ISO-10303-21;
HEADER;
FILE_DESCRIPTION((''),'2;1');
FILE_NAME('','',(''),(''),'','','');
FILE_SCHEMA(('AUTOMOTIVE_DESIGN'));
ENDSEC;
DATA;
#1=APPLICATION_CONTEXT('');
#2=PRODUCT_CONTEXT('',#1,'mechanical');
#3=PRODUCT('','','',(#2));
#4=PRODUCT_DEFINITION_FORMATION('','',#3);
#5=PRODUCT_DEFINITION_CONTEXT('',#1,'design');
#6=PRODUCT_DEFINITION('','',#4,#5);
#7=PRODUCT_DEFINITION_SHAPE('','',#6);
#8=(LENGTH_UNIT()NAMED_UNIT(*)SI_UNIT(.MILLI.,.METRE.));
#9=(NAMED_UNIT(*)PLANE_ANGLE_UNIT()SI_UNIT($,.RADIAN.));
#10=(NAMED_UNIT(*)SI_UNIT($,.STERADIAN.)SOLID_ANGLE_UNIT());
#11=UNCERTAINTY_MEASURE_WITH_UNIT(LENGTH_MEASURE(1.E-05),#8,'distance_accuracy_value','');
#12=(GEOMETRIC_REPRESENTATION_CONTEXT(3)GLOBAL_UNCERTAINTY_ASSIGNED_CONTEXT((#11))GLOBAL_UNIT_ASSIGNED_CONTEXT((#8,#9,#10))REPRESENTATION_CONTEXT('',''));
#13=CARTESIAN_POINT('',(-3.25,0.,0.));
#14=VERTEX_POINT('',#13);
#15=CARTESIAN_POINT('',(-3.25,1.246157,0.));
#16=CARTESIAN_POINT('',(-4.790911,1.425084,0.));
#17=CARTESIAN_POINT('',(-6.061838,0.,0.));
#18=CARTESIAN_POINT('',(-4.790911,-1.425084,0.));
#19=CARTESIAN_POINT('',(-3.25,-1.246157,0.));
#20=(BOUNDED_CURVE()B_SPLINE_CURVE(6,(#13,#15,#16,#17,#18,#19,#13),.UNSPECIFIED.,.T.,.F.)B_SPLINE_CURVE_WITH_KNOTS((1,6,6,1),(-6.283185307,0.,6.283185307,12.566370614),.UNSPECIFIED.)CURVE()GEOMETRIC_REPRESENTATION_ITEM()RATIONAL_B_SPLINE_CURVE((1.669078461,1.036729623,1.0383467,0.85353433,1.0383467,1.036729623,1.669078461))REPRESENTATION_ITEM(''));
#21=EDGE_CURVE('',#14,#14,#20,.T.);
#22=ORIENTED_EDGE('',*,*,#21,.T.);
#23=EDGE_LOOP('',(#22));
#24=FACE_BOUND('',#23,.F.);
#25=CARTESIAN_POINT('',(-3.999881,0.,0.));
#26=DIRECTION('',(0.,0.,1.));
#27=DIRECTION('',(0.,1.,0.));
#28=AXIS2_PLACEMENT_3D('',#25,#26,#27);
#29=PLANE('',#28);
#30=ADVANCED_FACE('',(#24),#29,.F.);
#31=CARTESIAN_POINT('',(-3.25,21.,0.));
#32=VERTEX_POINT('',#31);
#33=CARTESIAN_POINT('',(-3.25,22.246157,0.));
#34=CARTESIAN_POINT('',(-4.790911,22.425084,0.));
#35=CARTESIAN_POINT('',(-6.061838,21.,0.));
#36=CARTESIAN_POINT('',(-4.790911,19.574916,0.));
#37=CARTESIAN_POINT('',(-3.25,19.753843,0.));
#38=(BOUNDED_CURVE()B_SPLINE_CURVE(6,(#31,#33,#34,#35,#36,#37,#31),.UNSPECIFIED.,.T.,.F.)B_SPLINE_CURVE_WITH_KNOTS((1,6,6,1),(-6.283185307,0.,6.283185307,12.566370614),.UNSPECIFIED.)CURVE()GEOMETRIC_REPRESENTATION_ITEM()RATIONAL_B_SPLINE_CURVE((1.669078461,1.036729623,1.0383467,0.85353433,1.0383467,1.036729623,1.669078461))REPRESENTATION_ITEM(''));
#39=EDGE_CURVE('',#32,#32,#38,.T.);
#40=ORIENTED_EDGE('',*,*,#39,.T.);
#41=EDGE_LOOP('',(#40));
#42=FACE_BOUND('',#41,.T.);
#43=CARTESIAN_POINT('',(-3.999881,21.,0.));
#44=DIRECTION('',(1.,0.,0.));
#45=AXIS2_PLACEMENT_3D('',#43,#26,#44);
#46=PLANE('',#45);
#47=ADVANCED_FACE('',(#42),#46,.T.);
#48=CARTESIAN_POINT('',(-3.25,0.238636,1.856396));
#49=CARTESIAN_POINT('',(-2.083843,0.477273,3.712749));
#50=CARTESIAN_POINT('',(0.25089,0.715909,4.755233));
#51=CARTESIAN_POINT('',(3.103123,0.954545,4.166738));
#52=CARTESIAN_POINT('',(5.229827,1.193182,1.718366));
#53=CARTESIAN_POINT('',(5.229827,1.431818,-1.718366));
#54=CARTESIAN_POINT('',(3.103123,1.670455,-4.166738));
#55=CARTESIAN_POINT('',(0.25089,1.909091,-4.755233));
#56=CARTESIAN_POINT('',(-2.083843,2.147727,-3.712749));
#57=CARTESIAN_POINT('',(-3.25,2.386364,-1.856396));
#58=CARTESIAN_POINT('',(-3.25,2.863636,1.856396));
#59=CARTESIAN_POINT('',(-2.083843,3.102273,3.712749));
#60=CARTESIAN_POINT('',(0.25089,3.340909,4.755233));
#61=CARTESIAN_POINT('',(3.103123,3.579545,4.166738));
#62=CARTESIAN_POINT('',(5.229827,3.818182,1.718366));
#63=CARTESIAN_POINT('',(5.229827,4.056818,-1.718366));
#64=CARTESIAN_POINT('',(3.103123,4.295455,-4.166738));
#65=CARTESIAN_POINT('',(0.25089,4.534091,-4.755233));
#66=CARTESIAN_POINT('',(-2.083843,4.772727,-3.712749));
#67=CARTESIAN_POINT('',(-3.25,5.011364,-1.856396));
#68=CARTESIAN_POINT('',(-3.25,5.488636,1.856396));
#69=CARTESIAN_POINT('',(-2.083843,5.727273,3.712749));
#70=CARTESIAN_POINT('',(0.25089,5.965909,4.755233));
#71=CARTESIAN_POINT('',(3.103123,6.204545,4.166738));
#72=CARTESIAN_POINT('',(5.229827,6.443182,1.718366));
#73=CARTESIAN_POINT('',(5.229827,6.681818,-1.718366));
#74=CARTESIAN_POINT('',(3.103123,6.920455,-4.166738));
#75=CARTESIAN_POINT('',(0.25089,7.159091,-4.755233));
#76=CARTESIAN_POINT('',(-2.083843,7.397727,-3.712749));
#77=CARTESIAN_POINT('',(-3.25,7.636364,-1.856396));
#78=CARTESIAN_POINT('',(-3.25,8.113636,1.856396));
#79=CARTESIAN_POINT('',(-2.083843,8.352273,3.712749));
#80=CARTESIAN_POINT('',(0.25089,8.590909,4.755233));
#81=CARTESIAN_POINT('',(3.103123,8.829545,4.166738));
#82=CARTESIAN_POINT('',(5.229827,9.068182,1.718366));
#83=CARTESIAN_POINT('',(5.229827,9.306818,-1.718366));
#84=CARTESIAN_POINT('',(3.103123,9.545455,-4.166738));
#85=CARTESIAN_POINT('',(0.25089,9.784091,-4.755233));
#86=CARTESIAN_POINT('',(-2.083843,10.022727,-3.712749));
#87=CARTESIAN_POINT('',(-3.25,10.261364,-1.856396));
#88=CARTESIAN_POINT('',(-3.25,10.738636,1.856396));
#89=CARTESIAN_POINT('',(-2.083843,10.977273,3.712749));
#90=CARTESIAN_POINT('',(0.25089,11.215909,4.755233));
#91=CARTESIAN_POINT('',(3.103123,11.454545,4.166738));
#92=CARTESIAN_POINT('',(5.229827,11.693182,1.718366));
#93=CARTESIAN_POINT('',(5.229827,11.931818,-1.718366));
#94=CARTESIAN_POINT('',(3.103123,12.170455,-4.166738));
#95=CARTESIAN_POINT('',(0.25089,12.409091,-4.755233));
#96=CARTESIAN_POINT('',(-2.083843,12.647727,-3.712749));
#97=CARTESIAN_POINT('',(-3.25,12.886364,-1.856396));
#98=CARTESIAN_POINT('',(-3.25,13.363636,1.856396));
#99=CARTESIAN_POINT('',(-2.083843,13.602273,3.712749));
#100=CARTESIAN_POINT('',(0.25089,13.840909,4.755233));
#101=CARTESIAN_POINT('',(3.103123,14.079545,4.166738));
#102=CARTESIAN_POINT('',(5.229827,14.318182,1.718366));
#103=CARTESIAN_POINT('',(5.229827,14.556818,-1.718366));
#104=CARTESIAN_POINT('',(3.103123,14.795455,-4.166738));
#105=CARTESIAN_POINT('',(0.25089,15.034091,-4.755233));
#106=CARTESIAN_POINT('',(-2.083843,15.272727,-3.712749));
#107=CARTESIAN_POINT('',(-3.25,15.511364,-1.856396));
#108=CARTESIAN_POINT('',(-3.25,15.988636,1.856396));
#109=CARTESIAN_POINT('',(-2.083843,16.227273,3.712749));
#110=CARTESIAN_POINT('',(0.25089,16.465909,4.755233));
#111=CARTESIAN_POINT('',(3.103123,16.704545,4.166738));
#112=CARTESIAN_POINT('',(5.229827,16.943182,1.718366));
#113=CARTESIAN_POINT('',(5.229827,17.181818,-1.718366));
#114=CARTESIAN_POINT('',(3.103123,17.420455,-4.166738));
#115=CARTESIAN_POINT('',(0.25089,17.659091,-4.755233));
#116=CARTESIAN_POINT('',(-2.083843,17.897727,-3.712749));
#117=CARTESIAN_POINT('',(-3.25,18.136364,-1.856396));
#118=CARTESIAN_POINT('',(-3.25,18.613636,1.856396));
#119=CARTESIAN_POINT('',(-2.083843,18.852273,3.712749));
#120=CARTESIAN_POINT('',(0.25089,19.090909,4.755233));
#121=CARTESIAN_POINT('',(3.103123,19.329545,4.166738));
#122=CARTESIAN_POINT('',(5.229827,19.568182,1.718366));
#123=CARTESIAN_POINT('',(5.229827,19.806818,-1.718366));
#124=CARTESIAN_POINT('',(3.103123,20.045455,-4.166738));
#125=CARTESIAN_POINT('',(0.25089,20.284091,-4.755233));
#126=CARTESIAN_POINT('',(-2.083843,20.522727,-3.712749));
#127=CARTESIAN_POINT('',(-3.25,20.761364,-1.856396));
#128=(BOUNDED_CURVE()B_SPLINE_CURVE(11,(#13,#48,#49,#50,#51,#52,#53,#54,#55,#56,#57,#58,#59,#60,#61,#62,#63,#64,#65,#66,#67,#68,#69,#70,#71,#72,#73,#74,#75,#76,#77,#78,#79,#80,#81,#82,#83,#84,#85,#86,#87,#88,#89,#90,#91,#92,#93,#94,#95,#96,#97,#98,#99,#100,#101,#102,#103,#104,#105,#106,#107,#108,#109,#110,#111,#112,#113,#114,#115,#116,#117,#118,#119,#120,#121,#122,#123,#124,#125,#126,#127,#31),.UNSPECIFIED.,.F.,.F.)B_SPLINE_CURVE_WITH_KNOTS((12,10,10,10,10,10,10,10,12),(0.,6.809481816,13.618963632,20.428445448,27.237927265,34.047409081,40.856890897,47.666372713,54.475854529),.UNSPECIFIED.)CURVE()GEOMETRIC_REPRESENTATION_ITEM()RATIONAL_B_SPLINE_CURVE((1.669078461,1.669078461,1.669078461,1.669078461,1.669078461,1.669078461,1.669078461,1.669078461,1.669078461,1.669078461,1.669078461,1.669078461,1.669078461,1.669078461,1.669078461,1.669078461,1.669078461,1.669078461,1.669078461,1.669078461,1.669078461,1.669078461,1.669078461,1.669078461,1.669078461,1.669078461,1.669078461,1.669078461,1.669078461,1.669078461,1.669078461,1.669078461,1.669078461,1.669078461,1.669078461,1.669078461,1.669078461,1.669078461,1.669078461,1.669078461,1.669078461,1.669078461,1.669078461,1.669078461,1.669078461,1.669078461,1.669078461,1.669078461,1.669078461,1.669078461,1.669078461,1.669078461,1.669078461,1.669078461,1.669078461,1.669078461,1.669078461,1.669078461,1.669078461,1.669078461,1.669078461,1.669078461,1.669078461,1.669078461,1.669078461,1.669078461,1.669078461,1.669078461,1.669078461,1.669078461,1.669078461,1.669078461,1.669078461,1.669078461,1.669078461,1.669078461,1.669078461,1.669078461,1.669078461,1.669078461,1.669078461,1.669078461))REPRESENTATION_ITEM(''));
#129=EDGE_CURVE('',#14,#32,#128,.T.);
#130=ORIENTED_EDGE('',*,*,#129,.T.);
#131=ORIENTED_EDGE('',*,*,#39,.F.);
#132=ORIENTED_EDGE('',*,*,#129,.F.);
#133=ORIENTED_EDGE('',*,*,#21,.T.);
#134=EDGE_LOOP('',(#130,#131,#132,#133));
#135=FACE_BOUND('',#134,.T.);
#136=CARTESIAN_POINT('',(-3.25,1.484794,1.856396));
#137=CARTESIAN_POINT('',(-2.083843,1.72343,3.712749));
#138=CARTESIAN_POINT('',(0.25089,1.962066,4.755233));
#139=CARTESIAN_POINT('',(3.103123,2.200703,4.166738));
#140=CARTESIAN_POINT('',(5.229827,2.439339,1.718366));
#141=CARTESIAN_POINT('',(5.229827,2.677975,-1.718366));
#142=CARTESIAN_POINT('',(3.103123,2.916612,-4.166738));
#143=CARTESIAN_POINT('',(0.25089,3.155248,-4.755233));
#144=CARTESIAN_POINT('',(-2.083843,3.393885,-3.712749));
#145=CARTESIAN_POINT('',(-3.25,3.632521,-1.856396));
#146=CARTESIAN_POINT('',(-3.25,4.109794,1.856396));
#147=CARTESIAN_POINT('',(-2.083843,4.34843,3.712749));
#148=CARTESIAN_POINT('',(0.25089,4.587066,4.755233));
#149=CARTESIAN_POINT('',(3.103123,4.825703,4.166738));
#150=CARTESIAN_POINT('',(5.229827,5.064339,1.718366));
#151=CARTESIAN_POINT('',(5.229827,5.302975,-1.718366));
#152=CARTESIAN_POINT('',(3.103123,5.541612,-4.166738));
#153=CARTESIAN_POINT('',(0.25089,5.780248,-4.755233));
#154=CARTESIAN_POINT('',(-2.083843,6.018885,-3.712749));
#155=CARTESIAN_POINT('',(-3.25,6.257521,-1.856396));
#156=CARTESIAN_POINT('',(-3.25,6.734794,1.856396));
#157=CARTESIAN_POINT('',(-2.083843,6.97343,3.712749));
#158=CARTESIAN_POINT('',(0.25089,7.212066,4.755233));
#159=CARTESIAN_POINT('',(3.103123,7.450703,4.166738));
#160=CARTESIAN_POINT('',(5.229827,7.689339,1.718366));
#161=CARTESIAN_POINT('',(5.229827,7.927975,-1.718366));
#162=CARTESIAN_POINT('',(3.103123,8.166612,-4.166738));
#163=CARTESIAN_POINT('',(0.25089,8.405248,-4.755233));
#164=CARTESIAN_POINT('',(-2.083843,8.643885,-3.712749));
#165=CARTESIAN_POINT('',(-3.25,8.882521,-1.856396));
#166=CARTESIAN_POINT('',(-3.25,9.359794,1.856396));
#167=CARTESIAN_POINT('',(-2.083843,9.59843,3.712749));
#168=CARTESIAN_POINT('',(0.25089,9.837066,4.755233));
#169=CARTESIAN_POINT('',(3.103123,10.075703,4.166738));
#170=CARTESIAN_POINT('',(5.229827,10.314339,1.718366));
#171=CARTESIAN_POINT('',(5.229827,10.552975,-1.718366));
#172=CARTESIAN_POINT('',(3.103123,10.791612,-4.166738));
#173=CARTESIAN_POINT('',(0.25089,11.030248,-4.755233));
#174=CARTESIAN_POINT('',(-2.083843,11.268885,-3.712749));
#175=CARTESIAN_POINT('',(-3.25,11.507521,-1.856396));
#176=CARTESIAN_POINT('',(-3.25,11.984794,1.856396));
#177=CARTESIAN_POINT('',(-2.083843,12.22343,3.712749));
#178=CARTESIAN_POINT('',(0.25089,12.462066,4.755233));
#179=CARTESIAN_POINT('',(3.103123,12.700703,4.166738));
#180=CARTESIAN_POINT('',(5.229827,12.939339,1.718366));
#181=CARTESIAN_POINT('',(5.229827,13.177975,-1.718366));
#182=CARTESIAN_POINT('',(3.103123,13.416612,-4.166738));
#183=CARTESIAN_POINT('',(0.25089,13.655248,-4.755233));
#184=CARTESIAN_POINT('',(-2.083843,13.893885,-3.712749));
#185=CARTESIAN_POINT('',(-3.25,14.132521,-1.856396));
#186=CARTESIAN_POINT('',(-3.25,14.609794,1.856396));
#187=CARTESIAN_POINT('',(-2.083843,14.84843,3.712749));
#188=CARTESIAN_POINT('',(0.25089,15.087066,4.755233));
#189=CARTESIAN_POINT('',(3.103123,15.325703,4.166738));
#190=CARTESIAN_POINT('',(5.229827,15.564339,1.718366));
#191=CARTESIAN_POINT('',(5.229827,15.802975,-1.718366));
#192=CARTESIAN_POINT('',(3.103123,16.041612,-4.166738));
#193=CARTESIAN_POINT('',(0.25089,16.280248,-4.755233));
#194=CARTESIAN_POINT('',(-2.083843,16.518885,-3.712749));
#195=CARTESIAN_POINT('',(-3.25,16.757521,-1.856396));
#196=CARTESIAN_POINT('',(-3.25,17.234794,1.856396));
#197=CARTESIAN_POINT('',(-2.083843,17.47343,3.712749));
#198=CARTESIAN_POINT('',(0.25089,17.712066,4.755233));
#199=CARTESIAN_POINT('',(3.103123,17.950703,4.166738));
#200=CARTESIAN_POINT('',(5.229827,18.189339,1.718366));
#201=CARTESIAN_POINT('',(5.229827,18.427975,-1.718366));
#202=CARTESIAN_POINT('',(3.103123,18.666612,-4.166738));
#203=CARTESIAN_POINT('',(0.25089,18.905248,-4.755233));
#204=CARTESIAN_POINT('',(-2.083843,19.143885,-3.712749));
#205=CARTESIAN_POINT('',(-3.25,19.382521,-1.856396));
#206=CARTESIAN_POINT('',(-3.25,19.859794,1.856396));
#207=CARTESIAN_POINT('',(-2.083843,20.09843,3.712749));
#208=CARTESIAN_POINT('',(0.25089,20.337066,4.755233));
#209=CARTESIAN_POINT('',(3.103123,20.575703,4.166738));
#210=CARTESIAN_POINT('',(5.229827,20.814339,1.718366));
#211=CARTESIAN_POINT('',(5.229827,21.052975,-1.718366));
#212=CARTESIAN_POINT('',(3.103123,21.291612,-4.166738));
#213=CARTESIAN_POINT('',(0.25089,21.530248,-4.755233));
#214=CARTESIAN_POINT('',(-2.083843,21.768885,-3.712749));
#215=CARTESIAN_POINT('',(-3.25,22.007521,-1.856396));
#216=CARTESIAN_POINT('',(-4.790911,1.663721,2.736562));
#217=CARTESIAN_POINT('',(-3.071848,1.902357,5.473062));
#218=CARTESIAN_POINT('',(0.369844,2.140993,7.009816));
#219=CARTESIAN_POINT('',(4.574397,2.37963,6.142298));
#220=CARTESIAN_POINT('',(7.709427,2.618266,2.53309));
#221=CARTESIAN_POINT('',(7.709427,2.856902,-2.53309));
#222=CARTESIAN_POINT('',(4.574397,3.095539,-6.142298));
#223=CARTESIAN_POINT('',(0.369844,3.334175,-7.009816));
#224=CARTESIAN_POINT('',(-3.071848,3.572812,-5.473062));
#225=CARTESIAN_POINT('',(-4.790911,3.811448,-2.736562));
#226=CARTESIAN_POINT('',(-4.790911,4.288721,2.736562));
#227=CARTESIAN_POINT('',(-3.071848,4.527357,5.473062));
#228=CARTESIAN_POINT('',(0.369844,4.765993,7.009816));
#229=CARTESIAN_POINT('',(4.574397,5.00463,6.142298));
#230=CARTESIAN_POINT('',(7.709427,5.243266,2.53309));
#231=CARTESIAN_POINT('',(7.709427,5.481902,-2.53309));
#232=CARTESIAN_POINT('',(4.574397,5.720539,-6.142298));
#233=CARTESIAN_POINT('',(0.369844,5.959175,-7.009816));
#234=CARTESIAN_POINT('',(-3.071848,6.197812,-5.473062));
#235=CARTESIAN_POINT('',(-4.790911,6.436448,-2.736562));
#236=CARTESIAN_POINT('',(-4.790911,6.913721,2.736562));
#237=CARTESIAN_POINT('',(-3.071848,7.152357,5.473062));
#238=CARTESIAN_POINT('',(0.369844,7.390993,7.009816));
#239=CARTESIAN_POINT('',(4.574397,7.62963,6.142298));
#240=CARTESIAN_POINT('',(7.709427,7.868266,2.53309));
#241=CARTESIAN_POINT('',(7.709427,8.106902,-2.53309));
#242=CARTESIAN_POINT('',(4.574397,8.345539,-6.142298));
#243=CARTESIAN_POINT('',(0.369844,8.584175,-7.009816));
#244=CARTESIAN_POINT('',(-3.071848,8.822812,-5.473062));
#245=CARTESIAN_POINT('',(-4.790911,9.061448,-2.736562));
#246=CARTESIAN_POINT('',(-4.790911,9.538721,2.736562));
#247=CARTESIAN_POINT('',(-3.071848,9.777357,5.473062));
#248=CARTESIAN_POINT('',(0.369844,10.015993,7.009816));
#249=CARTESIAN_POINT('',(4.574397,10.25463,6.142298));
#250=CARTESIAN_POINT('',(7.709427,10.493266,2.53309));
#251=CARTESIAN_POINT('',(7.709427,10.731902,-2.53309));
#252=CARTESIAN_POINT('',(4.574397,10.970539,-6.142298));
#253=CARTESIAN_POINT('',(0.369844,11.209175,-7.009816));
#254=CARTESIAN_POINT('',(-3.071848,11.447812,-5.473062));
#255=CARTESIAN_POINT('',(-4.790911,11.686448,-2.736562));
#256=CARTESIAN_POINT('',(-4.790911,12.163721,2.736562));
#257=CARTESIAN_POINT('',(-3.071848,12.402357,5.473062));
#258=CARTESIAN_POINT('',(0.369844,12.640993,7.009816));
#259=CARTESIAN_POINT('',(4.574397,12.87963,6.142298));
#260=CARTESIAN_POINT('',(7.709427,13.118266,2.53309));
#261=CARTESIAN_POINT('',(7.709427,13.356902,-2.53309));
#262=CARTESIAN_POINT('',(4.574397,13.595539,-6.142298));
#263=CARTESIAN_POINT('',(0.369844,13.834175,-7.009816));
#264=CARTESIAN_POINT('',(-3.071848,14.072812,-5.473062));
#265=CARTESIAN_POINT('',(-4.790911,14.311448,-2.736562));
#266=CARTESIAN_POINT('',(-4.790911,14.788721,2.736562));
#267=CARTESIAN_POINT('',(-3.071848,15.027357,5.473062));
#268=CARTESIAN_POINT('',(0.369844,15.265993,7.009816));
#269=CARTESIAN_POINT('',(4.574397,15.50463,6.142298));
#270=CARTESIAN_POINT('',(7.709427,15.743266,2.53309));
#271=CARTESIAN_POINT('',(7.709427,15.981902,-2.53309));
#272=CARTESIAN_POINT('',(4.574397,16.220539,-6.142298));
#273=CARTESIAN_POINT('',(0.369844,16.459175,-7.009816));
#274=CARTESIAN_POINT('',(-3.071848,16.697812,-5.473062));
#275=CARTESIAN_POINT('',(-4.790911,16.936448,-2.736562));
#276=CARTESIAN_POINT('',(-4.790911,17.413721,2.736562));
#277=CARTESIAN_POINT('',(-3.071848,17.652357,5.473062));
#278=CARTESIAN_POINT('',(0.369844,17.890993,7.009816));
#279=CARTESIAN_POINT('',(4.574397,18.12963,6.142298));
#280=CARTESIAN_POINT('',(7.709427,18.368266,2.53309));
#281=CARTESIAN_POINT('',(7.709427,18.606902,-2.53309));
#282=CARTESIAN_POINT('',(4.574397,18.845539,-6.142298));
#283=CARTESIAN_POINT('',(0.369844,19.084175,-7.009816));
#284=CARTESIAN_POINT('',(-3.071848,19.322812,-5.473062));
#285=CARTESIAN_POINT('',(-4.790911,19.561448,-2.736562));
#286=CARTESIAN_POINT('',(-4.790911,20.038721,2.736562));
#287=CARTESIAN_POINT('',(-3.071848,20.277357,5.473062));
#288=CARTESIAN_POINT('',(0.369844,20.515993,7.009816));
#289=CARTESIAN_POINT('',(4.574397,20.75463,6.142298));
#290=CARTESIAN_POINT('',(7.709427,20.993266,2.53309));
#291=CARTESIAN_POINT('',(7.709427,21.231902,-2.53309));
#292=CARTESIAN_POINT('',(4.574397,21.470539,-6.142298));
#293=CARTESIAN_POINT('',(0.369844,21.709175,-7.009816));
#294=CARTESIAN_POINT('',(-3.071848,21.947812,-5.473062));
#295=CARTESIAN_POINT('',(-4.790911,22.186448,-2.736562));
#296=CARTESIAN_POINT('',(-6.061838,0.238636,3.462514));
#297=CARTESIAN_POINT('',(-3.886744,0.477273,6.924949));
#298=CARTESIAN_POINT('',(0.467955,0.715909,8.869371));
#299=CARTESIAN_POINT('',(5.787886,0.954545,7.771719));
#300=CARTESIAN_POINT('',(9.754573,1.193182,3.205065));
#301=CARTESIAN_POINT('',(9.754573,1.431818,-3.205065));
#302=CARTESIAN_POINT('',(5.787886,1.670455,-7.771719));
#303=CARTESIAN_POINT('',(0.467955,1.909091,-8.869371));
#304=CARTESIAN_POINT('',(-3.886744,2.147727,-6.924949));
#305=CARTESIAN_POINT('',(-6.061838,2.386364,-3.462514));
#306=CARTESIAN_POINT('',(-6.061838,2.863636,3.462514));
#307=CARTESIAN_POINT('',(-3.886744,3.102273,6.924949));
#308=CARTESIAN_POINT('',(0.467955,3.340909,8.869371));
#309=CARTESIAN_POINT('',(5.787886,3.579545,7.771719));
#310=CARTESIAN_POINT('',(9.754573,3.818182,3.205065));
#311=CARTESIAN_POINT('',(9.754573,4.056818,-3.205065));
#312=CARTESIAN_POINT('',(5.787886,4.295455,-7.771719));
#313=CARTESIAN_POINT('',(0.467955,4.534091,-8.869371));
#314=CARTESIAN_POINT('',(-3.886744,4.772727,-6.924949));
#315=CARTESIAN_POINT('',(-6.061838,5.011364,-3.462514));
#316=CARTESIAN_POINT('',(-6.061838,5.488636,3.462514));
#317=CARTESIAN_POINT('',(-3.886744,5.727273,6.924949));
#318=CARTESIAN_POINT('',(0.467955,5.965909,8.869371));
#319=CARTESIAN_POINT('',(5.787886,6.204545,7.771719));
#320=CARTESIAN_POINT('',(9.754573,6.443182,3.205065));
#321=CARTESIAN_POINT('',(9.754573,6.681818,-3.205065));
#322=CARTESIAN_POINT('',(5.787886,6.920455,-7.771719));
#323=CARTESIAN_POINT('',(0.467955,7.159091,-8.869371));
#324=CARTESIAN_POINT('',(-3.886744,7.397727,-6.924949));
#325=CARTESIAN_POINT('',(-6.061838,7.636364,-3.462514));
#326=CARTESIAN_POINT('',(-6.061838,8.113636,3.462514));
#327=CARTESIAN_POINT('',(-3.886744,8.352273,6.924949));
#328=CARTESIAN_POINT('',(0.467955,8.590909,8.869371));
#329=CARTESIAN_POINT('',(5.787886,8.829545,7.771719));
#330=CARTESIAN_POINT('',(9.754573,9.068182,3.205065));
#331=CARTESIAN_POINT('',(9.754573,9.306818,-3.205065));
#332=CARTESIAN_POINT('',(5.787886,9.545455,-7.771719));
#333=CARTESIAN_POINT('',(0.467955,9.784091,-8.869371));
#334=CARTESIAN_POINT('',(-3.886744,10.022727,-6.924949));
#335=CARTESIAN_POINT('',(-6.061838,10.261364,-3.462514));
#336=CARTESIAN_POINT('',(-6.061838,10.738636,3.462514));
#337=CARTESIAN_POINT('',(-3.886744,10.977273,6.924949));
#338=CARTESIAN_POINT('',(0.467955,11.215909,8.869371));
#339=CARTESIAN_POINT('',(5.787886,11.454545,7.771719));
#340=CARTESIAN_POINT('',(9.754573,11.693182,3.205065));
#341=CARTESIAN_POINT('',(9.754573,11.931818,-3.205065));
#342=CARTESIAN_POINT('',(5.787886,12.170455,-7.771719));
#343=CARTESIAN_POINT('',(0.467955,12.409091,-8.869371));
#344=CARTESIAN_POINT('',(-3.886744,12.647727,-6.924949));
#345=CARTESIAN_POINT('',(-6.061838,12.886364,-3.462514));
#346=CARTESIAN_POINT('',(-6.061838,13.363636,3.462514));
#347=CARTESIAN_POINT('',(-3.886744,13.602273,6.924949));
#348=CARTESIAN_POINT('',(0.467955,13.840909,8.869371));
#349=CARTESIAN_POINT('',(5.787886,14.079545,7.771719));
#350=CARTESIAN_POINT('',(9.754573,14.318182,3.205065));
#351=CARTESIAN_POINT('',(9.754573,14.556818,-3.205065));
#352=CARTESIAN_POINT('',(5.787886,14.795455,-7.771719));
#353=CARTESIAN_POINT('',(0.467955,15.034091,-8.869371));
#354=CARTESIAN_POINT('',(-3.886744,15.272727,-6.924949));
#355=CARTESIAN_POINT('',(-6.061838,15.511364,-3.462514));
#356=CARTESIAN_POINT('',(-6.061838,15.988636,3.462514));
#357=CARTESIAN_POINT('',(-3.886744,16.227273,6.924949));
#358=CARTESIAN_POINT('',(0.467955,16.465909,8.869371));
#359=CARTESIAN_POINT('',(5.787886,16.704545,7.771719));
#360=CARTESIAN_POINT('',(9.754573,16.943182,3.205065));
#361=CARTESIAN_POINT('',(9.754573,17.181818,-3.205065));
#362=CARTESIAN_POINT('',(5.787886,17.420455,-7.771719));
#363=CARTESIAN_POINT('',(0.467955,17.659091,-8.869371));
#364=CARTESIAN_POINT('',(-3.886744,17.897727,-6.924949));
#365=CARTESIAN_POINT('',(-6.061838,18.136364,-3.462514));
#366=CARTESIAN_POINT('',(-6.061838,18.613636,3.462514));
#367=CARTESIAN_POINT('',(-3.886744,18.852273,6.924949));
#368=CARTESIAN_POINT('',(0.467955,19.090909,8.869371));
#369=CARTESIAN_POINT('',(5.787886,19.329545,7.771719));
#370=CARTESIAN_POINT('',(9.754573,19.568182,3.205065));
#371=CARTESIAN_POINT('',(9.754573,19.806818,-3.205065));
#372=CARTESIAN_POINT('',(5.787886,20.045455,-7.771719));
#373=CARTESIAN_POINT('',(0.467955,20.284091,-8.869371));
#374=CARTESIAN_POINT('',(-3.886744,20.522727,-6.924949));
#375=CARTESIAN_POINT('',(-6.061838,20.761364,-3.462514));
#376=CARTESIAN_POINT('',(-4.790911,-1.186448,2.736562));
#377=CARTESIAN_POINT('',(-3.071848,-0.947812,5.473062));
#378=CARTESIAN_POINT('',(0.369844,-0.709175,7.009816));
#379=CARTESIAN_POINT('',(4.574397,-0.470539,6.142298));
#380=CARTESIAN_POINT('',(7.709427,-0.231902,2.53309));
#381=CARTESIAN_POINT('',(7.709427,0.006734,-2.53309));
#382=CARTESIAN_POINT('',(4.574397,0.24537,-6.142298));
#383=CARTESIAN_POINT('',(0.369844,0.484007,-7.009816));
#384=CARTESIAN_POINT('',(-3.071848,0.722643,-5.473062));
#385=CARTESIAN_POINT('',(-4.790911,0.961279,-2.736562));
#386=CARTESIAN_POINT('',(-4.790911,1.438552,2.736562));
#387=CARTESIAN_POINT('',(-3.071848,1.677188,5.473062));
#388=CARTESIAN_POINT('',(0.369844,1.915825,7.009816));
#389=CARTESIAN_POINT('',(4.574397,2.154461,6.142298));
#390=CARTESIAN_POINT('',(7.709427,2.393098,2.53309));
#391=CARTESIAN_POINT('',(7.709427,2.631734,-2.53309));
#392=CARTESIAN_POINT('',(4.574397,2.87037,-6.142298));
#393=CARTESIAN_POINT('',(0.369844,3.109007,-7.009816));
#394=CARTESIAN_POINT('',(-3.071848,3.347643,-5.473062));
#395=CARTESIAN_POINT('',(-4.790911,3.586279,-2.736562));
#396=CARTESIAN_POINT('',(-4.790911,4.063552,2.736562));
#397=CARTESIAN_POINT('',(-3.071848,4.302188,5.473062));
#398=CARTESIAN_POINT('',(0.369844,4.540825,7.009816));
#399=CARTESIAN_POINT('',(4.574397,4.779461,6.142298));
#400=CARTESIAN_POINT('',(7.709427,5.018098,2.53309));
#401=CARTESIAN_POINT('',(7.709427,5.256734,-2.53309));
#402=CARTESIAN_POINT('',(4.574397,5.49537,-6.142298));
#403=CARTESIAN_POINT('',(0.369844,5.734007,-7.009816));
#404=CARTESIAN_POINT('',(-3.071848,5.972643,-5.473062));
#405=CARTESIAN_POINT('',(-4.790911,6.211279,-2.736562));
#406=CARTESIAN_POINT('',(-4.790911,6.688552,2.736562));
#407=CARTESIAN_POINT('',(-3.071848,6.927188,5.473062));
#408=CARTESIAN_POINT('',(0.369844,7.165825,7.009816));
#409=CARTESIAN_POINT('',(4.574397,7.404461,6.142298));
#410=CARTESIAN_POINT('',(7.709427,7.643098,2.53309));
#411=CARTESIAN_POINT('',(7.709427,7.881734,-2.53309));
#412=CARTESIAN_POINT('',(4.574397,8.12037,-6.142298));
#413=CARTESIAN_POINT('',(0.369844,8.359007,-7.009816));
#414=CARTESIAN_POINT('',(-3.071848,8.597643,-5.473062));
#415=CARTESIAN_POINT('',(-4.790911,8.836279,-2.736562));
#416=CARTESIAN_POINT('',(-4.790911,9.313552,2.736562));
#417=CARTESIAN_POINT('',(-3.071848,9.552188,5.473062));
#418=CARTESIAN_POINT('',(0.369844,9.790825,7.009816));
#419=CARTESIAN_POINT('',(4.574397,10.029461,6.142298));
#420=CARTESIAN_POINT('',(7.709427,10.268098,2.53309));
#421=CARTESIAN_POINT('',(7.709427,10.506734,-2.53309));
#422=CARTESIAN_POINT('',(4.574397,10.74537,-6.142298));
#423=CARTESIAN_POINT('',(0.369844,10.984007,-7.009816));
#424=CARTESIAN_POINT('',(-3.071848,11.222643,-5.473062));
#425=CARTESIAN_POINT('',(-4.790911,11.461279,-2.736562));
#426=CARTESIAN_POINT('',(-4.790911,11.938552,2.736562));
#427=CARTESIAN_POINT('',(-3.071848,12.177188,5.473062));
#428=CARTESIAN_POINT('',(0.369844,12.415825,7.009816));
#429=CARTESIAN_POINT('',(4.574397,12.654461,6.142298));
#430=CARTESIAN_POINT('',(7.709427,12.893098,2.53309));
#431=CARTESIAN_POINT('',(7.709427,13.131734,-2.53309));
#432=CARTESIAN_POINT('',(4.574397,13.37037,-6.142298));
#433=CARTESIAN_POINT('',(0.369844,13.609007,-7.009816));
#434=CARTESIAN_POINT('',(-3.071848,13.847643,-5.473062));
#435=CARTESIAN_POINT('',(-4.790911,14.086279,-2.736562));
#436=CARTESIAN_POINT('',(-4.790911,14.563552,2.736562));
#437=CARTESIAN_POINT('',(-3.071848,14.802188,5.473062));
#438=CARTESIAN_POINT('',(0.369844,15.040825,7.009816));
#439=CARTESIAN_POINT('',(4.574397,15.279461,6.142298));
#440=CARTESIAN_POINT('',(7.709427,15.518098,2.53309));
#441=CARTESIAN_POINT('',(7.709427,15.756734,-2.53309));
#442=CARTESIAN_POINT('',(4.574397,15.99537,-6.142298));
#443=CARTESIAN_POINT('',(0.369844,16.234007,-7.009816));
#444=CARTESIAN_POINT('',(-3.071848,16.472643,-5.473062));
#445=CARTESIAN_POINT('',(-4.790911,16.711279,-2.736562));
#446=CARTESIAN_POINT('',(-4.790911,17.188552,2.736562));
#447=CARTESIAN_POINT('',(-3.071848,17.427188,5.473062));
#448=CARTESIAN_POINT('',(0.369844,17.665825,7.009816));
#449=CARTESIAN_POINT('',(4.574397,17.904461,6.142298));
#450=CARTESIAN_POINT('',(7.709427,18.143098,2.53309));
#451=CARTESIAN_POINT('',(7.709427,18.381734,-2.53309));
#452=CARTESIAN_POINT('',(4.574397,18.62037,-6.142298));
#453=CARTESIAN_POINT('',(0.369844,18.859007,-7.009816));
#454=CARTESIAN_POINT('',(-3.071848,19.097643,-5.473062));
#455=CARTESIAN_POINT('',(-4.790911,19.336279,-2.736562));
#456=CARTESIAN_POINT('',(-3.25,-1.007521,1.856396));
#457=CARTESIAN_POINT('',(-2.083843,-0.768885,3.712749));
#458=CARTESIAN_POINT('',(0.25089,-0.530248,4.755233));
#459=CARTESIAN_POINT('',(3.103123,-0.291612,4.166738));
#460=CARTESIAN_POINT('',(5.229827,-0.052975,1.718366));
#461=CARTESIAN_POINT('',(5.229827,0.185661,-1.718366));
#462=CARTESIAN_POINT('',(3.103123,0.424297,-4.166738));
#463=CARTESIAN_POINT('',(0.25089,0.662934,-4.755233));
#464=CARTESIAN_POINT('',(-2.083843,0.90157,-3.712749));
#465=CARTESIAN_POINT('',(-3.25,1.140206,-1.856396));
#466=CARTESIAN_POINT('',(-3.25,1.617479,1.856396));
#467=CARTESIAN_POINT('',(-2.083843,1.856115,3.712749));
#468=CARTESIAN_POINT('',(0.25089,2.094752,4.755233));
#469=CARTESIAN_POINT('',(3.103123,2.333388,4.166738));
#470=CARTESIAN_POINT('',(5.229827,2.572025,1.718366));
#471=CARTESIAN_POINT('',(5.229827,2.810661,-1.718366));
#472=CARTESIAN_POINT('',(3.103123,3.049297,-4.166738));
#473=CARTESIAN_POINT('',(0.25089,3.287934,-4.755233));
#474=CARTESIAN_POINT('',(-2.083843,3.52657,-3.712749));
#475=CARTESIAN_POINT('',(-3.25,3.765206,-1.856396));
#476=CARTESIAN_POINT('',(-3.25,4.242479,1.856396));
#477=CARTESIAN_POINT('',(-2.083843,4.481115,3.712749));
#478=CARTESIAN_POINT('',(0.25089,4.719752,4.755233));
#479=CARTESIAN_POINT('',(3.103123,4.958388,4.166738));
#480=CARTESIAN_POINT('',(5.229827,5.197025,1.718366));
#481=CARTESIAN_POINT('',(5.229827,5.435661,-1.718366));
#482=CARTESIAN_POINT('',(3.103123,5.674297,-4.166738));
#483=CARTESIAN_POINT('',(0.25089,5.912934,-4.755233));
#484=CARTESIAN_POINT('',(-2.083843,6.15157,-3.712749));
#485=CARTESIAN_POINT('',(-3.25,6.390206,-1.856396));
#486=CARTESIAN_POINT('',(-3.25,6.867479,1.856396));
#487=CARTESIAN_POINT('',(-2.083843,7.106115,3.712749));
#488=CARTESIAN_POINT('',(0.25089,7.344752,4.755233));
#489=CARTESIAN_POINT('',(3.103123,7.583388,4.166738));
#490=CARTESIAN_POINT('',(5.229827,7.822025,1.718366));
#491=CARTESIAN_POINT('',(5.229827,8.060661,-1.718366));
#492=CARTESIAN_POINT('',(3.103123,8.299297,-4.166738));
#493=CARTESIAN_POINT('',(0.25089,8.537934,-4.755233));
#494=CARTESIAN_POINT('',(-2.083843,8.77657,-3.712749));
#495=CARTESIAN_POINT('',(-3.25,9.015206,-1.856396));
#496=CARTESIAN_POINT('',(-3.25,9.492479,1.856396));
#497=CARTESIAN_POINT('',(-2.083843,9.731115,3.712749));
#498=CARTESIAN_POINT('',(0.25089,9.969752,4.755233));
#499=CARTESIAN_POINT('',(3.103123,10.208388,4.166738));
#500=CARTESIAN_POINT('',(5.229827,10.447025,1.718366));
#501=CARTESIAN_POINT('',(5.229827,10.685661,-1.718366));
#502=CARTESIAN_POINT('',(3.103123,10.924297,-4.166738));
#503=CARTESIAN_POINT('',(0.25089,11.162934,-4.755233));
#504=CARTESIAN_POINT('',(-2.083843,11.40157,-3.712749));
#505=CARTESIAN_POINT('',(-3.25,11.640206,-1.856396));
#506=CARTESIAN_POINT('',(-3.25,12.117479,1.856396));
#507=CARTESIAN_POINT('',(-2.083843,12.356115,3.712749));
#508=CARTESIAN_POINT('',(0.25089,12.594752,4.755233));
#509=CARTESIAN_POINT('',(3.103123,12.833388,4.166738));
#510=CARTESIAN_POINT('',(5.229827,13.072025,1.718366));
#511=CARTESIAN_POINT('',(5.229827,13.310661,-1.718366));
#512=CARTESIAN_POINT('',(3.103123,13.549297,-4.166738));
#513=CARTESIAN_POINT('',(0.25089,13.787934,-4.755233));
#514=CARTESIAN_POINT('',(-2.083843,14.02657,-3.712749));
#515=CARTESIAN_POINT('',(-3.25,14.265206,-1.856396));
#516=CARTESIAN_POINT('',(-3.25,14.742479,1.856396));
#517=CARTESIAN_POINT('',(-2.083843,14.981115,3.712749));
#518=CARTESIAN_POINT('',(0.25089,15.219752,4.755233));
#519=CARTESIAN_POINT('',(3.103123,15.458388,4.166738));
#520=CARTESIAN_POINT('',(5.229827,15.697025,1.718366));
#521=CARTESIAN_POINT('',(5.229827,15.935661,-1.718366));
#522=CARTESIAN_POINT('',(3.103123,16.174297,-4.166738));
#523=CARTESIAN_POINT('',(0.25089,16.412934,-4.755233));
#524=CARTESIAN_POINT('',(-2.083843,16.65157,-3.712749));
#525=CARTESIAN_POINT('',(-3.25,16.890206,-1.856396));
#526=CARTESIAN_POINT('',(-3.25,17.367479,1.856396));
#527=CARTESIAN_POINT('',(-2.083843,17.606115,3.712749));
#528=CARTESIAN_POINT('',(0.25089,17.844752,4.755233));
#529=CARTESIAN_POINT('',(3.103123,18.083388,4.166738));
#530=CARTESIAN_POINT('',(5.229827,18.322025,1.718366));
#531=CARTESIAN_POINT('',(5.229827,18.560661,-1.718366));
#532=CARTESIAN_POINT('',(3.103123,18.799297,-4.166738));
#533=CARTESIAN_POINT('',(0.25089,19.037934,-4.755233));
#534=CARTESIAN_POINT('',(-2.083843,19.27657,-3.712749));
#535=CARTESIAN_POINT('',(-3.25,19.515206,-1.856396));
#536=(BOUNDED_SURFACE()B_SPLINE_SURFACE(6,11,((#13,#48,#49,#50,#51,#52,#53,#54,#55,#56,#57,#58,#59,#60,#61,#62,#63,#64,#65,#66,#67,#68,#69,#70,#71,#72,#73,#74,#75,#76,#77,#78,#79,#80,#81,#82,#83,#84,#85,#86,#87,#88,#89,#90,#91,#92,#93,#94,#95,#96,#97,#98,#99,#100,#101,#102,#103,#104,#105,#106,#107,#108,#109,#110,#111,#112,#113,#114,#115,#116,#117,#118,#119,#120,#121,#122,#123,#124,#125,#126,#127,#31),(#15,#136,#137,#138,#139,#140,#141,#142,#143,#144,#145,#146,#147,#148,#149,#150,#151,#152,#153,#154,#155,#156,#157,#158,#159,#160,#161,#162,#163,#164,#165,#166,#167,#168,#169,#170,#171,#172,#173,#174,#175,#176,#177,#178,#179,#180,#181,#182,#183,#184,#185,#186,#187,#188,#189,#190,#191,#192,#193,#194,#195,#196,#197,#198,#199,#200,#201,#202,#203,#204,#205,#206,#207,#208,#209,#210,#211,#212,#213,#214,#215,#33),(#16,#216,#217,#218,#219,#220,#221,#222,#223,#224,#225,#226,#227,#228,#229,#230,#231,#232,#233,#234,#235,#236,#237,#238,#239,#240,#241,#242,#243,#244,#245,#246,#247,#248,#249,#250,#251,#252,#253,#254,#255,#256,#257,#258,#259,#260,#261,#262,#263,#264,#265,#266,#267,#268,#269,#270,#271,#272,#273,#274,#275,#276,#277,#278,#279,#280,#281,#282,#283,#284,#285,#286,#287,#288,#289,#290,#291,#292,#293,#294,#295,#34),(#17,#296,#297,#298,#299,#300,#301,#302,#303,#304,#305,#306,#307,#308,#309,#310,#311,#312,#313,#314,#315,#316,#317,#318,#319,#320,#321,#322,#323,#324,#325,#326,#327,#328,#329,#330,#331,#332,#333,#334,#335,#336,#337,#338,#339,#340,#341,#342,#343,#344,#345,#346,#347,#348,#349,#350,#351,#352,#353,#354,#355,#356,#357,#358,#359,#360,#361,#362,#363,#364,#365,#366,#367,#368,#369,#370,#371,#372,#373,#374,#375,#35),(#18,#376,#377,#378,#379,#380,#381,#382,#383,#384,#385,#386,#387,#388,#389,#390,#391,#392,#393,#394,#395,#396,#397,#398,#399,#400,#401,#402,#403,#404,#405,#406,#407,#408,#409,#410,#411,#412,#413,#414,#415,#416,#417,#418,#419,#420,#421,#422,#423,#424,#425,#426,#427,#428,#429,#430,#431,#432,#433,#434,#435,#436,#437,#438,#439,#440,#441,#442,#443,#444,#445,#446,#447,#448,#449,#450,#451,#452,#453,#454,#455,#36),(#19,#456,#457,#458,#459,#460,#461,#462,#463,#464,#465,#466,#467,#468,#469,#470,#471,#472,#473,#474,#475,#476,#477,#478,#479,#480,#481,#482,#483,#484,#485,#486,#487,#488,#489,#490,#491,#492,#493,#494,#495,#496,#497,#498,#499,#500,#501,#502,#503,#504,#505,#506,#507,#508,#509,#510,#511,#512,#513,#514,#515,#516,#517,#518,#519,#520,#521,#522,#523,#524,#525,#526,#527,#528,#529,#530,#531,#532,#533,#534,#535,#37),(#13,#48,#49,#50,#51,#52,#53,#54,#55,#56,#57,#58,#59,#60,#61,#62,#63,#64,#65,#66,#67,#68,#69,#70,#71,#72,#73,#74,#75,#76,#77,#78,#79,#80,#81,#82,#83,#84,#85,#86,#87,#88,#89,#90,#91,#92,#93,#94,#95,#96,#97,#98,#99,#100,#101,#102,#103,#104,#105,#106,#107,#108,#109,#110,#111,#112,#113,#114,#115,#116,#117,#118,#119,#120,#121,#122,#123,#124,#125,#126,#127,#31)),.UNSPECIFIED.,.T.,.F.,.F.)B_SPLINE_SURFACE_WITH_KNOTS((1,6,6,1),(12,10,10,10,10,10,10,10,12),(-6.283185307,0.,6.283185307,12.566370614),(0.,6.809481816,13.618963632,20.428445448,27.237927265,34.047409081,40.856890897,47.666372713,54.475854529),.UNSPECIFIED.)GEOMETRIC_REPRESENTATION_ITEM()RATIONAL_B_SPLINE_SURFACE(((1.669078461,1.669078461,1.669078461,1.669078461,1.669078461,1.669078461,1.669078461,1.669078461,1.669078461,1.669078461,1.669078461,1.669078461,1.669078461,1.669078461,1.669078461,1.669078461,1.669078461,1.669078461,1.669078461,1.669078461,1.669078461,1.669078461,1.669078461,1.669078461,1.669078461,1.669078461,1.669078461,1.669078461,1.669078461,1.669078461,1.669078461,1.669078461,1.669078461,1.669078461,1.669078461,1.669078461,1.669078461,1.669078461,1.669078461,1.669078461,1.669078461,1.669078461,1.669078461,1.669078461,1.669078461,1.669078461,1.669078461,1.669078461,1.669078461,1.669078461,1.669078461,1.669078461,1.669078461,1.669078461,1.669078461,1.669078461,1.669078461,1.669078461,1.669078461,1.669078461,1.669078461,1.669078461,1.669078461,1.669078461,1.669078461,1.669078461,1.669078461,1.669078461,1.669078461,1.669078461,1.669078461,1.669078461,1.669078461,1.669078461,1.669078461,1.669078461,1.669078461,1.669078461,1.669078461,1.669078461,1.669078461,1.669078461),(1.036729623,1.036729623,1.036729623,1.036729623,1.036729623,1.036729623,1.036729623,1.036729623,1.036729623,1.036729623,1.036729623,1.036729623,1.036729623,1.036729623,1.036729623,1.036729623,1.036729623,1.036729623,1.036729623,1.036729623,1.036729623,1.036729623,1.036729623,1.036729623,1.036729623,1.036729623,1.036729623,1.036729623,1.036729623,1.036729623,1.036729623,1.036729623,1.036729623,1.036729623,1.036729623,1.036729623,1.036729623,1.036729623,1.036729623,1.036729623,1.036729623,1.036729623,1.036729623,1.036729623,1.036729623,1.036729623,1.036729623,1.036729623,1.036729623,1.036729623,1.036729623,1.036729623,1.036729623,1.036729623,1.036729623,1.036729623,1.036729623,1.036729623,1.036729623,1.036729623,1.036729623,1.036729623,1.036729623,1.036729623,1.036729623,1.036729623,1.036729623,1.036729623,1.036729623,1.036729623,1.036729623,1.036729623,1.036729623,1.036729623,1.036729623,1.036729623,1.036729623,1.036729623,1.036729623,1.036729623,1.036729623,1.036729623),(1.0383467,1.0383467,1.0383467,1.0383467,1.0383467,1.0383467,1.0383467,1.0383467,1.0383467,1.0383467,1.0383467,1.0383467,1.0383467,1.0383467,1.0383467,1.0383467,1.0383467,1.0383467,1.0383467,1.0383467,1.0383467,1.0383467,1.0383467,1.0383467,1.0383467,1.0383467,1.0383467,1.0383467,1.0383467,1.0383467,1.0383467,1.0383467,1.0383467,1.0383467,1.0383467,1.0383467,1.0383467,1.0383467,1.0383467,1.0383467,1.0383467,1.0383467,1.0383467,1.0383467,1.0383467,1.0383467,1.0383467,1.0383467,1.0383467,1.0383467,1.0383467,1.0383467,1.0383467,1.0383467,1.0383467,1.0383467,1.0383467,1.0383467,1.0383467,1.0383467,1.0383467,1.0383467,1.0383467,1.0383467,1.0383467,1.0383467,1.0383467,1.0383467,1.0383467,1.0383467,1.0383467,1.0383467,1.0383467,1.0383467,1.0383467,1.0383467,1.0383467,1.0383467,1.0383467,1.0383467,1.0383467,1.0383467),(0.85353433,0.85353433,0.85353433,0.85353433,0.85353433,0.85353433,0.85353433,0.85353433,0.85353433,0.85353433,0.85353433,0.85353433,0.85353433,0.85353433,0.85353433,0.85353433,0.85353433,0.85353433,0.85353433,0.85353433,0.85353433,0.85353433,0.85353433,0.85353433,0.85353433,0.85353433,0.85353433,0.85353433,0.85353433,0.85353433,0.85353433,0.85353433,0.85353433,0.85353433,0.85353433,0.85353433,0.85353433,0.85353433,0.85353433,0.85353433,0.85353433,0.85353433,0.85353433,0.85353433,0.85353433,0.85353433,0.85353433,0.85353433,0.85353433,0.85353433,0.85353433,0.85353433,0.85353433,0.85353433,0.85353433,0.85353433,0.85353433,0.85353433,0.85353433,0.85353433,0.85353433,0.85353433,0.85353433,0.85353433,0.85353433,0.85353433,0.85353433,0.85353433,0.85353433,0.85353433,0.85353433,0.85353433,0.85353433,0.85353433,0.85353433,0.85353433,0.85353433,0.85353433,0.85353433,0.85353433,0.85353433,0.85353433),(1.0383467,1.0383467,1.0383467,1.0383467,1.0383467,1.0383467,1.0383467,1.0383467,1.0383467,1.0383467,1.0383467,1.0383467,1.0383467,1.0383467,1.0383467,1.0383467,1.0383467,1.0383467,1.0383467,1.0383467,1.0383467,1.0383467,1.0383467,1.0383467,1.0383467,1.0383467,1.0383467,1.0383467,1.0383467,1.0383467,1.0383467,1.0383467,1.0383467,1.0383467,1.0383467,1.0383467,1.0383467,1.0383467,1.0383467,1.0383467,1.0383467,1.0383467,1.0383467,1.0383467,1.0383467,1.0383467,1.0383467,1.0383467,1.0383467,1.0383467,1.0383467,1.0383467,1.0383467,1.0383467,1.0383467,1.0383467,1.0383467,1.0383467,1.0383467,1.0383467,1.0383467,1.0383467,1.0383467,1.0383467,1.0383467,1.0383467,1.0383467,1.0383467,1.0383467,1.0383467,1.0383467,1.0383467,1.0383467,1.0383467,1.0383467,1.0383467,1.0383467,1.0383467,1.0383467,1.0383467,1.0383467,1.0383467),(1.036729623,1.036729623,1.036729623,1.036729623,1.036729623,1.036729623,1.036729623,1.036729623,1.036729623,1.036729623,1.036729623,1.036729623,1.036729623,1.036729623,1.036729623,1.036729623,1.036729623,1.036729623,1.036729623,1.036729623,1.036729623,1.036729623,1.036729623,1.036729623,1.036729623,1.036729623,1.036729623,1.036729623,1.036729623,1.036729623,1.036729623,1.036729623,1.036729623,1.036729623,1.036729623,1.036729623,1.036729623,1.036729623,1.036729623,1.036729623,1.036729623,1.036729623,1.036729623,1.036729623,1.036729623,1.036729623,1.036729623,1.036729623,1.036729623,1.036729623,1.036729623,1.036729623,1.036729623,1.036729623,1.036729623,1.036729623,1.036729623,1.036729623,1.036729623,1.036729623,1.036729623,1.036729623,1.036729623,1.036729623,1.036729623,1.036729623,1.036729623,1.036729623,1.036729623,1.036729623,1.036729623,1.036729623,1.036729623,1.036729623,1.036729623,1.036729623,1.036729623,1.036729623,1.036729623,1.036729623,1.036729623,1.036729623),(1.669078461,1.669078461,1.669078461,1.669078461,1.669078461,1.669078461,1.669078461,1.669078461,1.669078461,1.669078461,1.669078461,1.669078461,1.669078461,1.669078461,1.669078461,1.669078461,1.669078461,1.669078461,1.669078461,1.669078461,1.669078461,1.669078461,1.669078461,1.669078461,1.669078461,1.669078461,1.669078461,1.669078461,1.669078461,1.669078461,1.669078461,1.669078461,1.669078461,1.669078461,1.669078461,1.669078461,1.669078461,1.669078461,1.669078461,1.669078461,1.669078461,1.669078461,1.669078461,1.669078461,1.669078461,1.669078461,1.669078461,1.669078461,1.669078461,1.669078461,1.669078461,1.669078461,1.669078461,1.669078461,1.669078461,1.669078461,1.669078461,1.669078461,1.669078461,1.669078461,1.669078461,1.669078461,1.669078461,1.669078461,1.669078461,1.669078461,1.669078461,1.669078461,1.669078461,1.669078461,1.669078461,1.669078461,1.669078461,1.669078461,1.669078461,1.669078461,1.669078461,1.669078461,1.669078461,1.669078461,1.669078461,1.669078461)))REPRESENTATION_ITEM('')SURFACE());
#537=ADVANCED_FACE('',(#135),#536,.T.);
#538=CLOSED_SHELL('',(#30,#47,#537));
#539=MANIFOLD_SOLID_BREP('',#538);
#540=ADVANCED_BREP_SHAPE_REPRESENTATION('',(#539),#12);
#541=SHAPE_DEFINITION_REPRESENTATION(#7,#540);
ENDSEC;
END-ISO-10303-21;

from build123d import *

# Parameters (mm, degrees)
SWEEP1_PITCH       = 2.625
SWEEP1_HEIGHT      = 21
SWEEP1_RADIUS      = 4
SWEEP1_START_ANGLE = -90
SKETCH3_R          = 0.75


with BuildPart() as part:
    # Sweep1: sweep along a helix
    with BuildLine() as sweep1_path:
        add(Helix(SWEEP1_PITCH, SWEEP1_HEIGHT, SWEEP1_RADIUS, center=(0, 0, 0), direction=(0, 1, 0), mode=Mode.PRIVATE).rotate(Axis((0, 0, 0), (0, 1, 0)), SWEEP1_START_ANGLE))
    # Sketch3 → Sweep1 (sweep)
    with BuildSketch(Plane.XY):
        with Locations((-4, 0)):
            Circle(SKETCH3_R)
    sweep(path=sweep1_path.line, is_frenet=True)


solid = part.part
